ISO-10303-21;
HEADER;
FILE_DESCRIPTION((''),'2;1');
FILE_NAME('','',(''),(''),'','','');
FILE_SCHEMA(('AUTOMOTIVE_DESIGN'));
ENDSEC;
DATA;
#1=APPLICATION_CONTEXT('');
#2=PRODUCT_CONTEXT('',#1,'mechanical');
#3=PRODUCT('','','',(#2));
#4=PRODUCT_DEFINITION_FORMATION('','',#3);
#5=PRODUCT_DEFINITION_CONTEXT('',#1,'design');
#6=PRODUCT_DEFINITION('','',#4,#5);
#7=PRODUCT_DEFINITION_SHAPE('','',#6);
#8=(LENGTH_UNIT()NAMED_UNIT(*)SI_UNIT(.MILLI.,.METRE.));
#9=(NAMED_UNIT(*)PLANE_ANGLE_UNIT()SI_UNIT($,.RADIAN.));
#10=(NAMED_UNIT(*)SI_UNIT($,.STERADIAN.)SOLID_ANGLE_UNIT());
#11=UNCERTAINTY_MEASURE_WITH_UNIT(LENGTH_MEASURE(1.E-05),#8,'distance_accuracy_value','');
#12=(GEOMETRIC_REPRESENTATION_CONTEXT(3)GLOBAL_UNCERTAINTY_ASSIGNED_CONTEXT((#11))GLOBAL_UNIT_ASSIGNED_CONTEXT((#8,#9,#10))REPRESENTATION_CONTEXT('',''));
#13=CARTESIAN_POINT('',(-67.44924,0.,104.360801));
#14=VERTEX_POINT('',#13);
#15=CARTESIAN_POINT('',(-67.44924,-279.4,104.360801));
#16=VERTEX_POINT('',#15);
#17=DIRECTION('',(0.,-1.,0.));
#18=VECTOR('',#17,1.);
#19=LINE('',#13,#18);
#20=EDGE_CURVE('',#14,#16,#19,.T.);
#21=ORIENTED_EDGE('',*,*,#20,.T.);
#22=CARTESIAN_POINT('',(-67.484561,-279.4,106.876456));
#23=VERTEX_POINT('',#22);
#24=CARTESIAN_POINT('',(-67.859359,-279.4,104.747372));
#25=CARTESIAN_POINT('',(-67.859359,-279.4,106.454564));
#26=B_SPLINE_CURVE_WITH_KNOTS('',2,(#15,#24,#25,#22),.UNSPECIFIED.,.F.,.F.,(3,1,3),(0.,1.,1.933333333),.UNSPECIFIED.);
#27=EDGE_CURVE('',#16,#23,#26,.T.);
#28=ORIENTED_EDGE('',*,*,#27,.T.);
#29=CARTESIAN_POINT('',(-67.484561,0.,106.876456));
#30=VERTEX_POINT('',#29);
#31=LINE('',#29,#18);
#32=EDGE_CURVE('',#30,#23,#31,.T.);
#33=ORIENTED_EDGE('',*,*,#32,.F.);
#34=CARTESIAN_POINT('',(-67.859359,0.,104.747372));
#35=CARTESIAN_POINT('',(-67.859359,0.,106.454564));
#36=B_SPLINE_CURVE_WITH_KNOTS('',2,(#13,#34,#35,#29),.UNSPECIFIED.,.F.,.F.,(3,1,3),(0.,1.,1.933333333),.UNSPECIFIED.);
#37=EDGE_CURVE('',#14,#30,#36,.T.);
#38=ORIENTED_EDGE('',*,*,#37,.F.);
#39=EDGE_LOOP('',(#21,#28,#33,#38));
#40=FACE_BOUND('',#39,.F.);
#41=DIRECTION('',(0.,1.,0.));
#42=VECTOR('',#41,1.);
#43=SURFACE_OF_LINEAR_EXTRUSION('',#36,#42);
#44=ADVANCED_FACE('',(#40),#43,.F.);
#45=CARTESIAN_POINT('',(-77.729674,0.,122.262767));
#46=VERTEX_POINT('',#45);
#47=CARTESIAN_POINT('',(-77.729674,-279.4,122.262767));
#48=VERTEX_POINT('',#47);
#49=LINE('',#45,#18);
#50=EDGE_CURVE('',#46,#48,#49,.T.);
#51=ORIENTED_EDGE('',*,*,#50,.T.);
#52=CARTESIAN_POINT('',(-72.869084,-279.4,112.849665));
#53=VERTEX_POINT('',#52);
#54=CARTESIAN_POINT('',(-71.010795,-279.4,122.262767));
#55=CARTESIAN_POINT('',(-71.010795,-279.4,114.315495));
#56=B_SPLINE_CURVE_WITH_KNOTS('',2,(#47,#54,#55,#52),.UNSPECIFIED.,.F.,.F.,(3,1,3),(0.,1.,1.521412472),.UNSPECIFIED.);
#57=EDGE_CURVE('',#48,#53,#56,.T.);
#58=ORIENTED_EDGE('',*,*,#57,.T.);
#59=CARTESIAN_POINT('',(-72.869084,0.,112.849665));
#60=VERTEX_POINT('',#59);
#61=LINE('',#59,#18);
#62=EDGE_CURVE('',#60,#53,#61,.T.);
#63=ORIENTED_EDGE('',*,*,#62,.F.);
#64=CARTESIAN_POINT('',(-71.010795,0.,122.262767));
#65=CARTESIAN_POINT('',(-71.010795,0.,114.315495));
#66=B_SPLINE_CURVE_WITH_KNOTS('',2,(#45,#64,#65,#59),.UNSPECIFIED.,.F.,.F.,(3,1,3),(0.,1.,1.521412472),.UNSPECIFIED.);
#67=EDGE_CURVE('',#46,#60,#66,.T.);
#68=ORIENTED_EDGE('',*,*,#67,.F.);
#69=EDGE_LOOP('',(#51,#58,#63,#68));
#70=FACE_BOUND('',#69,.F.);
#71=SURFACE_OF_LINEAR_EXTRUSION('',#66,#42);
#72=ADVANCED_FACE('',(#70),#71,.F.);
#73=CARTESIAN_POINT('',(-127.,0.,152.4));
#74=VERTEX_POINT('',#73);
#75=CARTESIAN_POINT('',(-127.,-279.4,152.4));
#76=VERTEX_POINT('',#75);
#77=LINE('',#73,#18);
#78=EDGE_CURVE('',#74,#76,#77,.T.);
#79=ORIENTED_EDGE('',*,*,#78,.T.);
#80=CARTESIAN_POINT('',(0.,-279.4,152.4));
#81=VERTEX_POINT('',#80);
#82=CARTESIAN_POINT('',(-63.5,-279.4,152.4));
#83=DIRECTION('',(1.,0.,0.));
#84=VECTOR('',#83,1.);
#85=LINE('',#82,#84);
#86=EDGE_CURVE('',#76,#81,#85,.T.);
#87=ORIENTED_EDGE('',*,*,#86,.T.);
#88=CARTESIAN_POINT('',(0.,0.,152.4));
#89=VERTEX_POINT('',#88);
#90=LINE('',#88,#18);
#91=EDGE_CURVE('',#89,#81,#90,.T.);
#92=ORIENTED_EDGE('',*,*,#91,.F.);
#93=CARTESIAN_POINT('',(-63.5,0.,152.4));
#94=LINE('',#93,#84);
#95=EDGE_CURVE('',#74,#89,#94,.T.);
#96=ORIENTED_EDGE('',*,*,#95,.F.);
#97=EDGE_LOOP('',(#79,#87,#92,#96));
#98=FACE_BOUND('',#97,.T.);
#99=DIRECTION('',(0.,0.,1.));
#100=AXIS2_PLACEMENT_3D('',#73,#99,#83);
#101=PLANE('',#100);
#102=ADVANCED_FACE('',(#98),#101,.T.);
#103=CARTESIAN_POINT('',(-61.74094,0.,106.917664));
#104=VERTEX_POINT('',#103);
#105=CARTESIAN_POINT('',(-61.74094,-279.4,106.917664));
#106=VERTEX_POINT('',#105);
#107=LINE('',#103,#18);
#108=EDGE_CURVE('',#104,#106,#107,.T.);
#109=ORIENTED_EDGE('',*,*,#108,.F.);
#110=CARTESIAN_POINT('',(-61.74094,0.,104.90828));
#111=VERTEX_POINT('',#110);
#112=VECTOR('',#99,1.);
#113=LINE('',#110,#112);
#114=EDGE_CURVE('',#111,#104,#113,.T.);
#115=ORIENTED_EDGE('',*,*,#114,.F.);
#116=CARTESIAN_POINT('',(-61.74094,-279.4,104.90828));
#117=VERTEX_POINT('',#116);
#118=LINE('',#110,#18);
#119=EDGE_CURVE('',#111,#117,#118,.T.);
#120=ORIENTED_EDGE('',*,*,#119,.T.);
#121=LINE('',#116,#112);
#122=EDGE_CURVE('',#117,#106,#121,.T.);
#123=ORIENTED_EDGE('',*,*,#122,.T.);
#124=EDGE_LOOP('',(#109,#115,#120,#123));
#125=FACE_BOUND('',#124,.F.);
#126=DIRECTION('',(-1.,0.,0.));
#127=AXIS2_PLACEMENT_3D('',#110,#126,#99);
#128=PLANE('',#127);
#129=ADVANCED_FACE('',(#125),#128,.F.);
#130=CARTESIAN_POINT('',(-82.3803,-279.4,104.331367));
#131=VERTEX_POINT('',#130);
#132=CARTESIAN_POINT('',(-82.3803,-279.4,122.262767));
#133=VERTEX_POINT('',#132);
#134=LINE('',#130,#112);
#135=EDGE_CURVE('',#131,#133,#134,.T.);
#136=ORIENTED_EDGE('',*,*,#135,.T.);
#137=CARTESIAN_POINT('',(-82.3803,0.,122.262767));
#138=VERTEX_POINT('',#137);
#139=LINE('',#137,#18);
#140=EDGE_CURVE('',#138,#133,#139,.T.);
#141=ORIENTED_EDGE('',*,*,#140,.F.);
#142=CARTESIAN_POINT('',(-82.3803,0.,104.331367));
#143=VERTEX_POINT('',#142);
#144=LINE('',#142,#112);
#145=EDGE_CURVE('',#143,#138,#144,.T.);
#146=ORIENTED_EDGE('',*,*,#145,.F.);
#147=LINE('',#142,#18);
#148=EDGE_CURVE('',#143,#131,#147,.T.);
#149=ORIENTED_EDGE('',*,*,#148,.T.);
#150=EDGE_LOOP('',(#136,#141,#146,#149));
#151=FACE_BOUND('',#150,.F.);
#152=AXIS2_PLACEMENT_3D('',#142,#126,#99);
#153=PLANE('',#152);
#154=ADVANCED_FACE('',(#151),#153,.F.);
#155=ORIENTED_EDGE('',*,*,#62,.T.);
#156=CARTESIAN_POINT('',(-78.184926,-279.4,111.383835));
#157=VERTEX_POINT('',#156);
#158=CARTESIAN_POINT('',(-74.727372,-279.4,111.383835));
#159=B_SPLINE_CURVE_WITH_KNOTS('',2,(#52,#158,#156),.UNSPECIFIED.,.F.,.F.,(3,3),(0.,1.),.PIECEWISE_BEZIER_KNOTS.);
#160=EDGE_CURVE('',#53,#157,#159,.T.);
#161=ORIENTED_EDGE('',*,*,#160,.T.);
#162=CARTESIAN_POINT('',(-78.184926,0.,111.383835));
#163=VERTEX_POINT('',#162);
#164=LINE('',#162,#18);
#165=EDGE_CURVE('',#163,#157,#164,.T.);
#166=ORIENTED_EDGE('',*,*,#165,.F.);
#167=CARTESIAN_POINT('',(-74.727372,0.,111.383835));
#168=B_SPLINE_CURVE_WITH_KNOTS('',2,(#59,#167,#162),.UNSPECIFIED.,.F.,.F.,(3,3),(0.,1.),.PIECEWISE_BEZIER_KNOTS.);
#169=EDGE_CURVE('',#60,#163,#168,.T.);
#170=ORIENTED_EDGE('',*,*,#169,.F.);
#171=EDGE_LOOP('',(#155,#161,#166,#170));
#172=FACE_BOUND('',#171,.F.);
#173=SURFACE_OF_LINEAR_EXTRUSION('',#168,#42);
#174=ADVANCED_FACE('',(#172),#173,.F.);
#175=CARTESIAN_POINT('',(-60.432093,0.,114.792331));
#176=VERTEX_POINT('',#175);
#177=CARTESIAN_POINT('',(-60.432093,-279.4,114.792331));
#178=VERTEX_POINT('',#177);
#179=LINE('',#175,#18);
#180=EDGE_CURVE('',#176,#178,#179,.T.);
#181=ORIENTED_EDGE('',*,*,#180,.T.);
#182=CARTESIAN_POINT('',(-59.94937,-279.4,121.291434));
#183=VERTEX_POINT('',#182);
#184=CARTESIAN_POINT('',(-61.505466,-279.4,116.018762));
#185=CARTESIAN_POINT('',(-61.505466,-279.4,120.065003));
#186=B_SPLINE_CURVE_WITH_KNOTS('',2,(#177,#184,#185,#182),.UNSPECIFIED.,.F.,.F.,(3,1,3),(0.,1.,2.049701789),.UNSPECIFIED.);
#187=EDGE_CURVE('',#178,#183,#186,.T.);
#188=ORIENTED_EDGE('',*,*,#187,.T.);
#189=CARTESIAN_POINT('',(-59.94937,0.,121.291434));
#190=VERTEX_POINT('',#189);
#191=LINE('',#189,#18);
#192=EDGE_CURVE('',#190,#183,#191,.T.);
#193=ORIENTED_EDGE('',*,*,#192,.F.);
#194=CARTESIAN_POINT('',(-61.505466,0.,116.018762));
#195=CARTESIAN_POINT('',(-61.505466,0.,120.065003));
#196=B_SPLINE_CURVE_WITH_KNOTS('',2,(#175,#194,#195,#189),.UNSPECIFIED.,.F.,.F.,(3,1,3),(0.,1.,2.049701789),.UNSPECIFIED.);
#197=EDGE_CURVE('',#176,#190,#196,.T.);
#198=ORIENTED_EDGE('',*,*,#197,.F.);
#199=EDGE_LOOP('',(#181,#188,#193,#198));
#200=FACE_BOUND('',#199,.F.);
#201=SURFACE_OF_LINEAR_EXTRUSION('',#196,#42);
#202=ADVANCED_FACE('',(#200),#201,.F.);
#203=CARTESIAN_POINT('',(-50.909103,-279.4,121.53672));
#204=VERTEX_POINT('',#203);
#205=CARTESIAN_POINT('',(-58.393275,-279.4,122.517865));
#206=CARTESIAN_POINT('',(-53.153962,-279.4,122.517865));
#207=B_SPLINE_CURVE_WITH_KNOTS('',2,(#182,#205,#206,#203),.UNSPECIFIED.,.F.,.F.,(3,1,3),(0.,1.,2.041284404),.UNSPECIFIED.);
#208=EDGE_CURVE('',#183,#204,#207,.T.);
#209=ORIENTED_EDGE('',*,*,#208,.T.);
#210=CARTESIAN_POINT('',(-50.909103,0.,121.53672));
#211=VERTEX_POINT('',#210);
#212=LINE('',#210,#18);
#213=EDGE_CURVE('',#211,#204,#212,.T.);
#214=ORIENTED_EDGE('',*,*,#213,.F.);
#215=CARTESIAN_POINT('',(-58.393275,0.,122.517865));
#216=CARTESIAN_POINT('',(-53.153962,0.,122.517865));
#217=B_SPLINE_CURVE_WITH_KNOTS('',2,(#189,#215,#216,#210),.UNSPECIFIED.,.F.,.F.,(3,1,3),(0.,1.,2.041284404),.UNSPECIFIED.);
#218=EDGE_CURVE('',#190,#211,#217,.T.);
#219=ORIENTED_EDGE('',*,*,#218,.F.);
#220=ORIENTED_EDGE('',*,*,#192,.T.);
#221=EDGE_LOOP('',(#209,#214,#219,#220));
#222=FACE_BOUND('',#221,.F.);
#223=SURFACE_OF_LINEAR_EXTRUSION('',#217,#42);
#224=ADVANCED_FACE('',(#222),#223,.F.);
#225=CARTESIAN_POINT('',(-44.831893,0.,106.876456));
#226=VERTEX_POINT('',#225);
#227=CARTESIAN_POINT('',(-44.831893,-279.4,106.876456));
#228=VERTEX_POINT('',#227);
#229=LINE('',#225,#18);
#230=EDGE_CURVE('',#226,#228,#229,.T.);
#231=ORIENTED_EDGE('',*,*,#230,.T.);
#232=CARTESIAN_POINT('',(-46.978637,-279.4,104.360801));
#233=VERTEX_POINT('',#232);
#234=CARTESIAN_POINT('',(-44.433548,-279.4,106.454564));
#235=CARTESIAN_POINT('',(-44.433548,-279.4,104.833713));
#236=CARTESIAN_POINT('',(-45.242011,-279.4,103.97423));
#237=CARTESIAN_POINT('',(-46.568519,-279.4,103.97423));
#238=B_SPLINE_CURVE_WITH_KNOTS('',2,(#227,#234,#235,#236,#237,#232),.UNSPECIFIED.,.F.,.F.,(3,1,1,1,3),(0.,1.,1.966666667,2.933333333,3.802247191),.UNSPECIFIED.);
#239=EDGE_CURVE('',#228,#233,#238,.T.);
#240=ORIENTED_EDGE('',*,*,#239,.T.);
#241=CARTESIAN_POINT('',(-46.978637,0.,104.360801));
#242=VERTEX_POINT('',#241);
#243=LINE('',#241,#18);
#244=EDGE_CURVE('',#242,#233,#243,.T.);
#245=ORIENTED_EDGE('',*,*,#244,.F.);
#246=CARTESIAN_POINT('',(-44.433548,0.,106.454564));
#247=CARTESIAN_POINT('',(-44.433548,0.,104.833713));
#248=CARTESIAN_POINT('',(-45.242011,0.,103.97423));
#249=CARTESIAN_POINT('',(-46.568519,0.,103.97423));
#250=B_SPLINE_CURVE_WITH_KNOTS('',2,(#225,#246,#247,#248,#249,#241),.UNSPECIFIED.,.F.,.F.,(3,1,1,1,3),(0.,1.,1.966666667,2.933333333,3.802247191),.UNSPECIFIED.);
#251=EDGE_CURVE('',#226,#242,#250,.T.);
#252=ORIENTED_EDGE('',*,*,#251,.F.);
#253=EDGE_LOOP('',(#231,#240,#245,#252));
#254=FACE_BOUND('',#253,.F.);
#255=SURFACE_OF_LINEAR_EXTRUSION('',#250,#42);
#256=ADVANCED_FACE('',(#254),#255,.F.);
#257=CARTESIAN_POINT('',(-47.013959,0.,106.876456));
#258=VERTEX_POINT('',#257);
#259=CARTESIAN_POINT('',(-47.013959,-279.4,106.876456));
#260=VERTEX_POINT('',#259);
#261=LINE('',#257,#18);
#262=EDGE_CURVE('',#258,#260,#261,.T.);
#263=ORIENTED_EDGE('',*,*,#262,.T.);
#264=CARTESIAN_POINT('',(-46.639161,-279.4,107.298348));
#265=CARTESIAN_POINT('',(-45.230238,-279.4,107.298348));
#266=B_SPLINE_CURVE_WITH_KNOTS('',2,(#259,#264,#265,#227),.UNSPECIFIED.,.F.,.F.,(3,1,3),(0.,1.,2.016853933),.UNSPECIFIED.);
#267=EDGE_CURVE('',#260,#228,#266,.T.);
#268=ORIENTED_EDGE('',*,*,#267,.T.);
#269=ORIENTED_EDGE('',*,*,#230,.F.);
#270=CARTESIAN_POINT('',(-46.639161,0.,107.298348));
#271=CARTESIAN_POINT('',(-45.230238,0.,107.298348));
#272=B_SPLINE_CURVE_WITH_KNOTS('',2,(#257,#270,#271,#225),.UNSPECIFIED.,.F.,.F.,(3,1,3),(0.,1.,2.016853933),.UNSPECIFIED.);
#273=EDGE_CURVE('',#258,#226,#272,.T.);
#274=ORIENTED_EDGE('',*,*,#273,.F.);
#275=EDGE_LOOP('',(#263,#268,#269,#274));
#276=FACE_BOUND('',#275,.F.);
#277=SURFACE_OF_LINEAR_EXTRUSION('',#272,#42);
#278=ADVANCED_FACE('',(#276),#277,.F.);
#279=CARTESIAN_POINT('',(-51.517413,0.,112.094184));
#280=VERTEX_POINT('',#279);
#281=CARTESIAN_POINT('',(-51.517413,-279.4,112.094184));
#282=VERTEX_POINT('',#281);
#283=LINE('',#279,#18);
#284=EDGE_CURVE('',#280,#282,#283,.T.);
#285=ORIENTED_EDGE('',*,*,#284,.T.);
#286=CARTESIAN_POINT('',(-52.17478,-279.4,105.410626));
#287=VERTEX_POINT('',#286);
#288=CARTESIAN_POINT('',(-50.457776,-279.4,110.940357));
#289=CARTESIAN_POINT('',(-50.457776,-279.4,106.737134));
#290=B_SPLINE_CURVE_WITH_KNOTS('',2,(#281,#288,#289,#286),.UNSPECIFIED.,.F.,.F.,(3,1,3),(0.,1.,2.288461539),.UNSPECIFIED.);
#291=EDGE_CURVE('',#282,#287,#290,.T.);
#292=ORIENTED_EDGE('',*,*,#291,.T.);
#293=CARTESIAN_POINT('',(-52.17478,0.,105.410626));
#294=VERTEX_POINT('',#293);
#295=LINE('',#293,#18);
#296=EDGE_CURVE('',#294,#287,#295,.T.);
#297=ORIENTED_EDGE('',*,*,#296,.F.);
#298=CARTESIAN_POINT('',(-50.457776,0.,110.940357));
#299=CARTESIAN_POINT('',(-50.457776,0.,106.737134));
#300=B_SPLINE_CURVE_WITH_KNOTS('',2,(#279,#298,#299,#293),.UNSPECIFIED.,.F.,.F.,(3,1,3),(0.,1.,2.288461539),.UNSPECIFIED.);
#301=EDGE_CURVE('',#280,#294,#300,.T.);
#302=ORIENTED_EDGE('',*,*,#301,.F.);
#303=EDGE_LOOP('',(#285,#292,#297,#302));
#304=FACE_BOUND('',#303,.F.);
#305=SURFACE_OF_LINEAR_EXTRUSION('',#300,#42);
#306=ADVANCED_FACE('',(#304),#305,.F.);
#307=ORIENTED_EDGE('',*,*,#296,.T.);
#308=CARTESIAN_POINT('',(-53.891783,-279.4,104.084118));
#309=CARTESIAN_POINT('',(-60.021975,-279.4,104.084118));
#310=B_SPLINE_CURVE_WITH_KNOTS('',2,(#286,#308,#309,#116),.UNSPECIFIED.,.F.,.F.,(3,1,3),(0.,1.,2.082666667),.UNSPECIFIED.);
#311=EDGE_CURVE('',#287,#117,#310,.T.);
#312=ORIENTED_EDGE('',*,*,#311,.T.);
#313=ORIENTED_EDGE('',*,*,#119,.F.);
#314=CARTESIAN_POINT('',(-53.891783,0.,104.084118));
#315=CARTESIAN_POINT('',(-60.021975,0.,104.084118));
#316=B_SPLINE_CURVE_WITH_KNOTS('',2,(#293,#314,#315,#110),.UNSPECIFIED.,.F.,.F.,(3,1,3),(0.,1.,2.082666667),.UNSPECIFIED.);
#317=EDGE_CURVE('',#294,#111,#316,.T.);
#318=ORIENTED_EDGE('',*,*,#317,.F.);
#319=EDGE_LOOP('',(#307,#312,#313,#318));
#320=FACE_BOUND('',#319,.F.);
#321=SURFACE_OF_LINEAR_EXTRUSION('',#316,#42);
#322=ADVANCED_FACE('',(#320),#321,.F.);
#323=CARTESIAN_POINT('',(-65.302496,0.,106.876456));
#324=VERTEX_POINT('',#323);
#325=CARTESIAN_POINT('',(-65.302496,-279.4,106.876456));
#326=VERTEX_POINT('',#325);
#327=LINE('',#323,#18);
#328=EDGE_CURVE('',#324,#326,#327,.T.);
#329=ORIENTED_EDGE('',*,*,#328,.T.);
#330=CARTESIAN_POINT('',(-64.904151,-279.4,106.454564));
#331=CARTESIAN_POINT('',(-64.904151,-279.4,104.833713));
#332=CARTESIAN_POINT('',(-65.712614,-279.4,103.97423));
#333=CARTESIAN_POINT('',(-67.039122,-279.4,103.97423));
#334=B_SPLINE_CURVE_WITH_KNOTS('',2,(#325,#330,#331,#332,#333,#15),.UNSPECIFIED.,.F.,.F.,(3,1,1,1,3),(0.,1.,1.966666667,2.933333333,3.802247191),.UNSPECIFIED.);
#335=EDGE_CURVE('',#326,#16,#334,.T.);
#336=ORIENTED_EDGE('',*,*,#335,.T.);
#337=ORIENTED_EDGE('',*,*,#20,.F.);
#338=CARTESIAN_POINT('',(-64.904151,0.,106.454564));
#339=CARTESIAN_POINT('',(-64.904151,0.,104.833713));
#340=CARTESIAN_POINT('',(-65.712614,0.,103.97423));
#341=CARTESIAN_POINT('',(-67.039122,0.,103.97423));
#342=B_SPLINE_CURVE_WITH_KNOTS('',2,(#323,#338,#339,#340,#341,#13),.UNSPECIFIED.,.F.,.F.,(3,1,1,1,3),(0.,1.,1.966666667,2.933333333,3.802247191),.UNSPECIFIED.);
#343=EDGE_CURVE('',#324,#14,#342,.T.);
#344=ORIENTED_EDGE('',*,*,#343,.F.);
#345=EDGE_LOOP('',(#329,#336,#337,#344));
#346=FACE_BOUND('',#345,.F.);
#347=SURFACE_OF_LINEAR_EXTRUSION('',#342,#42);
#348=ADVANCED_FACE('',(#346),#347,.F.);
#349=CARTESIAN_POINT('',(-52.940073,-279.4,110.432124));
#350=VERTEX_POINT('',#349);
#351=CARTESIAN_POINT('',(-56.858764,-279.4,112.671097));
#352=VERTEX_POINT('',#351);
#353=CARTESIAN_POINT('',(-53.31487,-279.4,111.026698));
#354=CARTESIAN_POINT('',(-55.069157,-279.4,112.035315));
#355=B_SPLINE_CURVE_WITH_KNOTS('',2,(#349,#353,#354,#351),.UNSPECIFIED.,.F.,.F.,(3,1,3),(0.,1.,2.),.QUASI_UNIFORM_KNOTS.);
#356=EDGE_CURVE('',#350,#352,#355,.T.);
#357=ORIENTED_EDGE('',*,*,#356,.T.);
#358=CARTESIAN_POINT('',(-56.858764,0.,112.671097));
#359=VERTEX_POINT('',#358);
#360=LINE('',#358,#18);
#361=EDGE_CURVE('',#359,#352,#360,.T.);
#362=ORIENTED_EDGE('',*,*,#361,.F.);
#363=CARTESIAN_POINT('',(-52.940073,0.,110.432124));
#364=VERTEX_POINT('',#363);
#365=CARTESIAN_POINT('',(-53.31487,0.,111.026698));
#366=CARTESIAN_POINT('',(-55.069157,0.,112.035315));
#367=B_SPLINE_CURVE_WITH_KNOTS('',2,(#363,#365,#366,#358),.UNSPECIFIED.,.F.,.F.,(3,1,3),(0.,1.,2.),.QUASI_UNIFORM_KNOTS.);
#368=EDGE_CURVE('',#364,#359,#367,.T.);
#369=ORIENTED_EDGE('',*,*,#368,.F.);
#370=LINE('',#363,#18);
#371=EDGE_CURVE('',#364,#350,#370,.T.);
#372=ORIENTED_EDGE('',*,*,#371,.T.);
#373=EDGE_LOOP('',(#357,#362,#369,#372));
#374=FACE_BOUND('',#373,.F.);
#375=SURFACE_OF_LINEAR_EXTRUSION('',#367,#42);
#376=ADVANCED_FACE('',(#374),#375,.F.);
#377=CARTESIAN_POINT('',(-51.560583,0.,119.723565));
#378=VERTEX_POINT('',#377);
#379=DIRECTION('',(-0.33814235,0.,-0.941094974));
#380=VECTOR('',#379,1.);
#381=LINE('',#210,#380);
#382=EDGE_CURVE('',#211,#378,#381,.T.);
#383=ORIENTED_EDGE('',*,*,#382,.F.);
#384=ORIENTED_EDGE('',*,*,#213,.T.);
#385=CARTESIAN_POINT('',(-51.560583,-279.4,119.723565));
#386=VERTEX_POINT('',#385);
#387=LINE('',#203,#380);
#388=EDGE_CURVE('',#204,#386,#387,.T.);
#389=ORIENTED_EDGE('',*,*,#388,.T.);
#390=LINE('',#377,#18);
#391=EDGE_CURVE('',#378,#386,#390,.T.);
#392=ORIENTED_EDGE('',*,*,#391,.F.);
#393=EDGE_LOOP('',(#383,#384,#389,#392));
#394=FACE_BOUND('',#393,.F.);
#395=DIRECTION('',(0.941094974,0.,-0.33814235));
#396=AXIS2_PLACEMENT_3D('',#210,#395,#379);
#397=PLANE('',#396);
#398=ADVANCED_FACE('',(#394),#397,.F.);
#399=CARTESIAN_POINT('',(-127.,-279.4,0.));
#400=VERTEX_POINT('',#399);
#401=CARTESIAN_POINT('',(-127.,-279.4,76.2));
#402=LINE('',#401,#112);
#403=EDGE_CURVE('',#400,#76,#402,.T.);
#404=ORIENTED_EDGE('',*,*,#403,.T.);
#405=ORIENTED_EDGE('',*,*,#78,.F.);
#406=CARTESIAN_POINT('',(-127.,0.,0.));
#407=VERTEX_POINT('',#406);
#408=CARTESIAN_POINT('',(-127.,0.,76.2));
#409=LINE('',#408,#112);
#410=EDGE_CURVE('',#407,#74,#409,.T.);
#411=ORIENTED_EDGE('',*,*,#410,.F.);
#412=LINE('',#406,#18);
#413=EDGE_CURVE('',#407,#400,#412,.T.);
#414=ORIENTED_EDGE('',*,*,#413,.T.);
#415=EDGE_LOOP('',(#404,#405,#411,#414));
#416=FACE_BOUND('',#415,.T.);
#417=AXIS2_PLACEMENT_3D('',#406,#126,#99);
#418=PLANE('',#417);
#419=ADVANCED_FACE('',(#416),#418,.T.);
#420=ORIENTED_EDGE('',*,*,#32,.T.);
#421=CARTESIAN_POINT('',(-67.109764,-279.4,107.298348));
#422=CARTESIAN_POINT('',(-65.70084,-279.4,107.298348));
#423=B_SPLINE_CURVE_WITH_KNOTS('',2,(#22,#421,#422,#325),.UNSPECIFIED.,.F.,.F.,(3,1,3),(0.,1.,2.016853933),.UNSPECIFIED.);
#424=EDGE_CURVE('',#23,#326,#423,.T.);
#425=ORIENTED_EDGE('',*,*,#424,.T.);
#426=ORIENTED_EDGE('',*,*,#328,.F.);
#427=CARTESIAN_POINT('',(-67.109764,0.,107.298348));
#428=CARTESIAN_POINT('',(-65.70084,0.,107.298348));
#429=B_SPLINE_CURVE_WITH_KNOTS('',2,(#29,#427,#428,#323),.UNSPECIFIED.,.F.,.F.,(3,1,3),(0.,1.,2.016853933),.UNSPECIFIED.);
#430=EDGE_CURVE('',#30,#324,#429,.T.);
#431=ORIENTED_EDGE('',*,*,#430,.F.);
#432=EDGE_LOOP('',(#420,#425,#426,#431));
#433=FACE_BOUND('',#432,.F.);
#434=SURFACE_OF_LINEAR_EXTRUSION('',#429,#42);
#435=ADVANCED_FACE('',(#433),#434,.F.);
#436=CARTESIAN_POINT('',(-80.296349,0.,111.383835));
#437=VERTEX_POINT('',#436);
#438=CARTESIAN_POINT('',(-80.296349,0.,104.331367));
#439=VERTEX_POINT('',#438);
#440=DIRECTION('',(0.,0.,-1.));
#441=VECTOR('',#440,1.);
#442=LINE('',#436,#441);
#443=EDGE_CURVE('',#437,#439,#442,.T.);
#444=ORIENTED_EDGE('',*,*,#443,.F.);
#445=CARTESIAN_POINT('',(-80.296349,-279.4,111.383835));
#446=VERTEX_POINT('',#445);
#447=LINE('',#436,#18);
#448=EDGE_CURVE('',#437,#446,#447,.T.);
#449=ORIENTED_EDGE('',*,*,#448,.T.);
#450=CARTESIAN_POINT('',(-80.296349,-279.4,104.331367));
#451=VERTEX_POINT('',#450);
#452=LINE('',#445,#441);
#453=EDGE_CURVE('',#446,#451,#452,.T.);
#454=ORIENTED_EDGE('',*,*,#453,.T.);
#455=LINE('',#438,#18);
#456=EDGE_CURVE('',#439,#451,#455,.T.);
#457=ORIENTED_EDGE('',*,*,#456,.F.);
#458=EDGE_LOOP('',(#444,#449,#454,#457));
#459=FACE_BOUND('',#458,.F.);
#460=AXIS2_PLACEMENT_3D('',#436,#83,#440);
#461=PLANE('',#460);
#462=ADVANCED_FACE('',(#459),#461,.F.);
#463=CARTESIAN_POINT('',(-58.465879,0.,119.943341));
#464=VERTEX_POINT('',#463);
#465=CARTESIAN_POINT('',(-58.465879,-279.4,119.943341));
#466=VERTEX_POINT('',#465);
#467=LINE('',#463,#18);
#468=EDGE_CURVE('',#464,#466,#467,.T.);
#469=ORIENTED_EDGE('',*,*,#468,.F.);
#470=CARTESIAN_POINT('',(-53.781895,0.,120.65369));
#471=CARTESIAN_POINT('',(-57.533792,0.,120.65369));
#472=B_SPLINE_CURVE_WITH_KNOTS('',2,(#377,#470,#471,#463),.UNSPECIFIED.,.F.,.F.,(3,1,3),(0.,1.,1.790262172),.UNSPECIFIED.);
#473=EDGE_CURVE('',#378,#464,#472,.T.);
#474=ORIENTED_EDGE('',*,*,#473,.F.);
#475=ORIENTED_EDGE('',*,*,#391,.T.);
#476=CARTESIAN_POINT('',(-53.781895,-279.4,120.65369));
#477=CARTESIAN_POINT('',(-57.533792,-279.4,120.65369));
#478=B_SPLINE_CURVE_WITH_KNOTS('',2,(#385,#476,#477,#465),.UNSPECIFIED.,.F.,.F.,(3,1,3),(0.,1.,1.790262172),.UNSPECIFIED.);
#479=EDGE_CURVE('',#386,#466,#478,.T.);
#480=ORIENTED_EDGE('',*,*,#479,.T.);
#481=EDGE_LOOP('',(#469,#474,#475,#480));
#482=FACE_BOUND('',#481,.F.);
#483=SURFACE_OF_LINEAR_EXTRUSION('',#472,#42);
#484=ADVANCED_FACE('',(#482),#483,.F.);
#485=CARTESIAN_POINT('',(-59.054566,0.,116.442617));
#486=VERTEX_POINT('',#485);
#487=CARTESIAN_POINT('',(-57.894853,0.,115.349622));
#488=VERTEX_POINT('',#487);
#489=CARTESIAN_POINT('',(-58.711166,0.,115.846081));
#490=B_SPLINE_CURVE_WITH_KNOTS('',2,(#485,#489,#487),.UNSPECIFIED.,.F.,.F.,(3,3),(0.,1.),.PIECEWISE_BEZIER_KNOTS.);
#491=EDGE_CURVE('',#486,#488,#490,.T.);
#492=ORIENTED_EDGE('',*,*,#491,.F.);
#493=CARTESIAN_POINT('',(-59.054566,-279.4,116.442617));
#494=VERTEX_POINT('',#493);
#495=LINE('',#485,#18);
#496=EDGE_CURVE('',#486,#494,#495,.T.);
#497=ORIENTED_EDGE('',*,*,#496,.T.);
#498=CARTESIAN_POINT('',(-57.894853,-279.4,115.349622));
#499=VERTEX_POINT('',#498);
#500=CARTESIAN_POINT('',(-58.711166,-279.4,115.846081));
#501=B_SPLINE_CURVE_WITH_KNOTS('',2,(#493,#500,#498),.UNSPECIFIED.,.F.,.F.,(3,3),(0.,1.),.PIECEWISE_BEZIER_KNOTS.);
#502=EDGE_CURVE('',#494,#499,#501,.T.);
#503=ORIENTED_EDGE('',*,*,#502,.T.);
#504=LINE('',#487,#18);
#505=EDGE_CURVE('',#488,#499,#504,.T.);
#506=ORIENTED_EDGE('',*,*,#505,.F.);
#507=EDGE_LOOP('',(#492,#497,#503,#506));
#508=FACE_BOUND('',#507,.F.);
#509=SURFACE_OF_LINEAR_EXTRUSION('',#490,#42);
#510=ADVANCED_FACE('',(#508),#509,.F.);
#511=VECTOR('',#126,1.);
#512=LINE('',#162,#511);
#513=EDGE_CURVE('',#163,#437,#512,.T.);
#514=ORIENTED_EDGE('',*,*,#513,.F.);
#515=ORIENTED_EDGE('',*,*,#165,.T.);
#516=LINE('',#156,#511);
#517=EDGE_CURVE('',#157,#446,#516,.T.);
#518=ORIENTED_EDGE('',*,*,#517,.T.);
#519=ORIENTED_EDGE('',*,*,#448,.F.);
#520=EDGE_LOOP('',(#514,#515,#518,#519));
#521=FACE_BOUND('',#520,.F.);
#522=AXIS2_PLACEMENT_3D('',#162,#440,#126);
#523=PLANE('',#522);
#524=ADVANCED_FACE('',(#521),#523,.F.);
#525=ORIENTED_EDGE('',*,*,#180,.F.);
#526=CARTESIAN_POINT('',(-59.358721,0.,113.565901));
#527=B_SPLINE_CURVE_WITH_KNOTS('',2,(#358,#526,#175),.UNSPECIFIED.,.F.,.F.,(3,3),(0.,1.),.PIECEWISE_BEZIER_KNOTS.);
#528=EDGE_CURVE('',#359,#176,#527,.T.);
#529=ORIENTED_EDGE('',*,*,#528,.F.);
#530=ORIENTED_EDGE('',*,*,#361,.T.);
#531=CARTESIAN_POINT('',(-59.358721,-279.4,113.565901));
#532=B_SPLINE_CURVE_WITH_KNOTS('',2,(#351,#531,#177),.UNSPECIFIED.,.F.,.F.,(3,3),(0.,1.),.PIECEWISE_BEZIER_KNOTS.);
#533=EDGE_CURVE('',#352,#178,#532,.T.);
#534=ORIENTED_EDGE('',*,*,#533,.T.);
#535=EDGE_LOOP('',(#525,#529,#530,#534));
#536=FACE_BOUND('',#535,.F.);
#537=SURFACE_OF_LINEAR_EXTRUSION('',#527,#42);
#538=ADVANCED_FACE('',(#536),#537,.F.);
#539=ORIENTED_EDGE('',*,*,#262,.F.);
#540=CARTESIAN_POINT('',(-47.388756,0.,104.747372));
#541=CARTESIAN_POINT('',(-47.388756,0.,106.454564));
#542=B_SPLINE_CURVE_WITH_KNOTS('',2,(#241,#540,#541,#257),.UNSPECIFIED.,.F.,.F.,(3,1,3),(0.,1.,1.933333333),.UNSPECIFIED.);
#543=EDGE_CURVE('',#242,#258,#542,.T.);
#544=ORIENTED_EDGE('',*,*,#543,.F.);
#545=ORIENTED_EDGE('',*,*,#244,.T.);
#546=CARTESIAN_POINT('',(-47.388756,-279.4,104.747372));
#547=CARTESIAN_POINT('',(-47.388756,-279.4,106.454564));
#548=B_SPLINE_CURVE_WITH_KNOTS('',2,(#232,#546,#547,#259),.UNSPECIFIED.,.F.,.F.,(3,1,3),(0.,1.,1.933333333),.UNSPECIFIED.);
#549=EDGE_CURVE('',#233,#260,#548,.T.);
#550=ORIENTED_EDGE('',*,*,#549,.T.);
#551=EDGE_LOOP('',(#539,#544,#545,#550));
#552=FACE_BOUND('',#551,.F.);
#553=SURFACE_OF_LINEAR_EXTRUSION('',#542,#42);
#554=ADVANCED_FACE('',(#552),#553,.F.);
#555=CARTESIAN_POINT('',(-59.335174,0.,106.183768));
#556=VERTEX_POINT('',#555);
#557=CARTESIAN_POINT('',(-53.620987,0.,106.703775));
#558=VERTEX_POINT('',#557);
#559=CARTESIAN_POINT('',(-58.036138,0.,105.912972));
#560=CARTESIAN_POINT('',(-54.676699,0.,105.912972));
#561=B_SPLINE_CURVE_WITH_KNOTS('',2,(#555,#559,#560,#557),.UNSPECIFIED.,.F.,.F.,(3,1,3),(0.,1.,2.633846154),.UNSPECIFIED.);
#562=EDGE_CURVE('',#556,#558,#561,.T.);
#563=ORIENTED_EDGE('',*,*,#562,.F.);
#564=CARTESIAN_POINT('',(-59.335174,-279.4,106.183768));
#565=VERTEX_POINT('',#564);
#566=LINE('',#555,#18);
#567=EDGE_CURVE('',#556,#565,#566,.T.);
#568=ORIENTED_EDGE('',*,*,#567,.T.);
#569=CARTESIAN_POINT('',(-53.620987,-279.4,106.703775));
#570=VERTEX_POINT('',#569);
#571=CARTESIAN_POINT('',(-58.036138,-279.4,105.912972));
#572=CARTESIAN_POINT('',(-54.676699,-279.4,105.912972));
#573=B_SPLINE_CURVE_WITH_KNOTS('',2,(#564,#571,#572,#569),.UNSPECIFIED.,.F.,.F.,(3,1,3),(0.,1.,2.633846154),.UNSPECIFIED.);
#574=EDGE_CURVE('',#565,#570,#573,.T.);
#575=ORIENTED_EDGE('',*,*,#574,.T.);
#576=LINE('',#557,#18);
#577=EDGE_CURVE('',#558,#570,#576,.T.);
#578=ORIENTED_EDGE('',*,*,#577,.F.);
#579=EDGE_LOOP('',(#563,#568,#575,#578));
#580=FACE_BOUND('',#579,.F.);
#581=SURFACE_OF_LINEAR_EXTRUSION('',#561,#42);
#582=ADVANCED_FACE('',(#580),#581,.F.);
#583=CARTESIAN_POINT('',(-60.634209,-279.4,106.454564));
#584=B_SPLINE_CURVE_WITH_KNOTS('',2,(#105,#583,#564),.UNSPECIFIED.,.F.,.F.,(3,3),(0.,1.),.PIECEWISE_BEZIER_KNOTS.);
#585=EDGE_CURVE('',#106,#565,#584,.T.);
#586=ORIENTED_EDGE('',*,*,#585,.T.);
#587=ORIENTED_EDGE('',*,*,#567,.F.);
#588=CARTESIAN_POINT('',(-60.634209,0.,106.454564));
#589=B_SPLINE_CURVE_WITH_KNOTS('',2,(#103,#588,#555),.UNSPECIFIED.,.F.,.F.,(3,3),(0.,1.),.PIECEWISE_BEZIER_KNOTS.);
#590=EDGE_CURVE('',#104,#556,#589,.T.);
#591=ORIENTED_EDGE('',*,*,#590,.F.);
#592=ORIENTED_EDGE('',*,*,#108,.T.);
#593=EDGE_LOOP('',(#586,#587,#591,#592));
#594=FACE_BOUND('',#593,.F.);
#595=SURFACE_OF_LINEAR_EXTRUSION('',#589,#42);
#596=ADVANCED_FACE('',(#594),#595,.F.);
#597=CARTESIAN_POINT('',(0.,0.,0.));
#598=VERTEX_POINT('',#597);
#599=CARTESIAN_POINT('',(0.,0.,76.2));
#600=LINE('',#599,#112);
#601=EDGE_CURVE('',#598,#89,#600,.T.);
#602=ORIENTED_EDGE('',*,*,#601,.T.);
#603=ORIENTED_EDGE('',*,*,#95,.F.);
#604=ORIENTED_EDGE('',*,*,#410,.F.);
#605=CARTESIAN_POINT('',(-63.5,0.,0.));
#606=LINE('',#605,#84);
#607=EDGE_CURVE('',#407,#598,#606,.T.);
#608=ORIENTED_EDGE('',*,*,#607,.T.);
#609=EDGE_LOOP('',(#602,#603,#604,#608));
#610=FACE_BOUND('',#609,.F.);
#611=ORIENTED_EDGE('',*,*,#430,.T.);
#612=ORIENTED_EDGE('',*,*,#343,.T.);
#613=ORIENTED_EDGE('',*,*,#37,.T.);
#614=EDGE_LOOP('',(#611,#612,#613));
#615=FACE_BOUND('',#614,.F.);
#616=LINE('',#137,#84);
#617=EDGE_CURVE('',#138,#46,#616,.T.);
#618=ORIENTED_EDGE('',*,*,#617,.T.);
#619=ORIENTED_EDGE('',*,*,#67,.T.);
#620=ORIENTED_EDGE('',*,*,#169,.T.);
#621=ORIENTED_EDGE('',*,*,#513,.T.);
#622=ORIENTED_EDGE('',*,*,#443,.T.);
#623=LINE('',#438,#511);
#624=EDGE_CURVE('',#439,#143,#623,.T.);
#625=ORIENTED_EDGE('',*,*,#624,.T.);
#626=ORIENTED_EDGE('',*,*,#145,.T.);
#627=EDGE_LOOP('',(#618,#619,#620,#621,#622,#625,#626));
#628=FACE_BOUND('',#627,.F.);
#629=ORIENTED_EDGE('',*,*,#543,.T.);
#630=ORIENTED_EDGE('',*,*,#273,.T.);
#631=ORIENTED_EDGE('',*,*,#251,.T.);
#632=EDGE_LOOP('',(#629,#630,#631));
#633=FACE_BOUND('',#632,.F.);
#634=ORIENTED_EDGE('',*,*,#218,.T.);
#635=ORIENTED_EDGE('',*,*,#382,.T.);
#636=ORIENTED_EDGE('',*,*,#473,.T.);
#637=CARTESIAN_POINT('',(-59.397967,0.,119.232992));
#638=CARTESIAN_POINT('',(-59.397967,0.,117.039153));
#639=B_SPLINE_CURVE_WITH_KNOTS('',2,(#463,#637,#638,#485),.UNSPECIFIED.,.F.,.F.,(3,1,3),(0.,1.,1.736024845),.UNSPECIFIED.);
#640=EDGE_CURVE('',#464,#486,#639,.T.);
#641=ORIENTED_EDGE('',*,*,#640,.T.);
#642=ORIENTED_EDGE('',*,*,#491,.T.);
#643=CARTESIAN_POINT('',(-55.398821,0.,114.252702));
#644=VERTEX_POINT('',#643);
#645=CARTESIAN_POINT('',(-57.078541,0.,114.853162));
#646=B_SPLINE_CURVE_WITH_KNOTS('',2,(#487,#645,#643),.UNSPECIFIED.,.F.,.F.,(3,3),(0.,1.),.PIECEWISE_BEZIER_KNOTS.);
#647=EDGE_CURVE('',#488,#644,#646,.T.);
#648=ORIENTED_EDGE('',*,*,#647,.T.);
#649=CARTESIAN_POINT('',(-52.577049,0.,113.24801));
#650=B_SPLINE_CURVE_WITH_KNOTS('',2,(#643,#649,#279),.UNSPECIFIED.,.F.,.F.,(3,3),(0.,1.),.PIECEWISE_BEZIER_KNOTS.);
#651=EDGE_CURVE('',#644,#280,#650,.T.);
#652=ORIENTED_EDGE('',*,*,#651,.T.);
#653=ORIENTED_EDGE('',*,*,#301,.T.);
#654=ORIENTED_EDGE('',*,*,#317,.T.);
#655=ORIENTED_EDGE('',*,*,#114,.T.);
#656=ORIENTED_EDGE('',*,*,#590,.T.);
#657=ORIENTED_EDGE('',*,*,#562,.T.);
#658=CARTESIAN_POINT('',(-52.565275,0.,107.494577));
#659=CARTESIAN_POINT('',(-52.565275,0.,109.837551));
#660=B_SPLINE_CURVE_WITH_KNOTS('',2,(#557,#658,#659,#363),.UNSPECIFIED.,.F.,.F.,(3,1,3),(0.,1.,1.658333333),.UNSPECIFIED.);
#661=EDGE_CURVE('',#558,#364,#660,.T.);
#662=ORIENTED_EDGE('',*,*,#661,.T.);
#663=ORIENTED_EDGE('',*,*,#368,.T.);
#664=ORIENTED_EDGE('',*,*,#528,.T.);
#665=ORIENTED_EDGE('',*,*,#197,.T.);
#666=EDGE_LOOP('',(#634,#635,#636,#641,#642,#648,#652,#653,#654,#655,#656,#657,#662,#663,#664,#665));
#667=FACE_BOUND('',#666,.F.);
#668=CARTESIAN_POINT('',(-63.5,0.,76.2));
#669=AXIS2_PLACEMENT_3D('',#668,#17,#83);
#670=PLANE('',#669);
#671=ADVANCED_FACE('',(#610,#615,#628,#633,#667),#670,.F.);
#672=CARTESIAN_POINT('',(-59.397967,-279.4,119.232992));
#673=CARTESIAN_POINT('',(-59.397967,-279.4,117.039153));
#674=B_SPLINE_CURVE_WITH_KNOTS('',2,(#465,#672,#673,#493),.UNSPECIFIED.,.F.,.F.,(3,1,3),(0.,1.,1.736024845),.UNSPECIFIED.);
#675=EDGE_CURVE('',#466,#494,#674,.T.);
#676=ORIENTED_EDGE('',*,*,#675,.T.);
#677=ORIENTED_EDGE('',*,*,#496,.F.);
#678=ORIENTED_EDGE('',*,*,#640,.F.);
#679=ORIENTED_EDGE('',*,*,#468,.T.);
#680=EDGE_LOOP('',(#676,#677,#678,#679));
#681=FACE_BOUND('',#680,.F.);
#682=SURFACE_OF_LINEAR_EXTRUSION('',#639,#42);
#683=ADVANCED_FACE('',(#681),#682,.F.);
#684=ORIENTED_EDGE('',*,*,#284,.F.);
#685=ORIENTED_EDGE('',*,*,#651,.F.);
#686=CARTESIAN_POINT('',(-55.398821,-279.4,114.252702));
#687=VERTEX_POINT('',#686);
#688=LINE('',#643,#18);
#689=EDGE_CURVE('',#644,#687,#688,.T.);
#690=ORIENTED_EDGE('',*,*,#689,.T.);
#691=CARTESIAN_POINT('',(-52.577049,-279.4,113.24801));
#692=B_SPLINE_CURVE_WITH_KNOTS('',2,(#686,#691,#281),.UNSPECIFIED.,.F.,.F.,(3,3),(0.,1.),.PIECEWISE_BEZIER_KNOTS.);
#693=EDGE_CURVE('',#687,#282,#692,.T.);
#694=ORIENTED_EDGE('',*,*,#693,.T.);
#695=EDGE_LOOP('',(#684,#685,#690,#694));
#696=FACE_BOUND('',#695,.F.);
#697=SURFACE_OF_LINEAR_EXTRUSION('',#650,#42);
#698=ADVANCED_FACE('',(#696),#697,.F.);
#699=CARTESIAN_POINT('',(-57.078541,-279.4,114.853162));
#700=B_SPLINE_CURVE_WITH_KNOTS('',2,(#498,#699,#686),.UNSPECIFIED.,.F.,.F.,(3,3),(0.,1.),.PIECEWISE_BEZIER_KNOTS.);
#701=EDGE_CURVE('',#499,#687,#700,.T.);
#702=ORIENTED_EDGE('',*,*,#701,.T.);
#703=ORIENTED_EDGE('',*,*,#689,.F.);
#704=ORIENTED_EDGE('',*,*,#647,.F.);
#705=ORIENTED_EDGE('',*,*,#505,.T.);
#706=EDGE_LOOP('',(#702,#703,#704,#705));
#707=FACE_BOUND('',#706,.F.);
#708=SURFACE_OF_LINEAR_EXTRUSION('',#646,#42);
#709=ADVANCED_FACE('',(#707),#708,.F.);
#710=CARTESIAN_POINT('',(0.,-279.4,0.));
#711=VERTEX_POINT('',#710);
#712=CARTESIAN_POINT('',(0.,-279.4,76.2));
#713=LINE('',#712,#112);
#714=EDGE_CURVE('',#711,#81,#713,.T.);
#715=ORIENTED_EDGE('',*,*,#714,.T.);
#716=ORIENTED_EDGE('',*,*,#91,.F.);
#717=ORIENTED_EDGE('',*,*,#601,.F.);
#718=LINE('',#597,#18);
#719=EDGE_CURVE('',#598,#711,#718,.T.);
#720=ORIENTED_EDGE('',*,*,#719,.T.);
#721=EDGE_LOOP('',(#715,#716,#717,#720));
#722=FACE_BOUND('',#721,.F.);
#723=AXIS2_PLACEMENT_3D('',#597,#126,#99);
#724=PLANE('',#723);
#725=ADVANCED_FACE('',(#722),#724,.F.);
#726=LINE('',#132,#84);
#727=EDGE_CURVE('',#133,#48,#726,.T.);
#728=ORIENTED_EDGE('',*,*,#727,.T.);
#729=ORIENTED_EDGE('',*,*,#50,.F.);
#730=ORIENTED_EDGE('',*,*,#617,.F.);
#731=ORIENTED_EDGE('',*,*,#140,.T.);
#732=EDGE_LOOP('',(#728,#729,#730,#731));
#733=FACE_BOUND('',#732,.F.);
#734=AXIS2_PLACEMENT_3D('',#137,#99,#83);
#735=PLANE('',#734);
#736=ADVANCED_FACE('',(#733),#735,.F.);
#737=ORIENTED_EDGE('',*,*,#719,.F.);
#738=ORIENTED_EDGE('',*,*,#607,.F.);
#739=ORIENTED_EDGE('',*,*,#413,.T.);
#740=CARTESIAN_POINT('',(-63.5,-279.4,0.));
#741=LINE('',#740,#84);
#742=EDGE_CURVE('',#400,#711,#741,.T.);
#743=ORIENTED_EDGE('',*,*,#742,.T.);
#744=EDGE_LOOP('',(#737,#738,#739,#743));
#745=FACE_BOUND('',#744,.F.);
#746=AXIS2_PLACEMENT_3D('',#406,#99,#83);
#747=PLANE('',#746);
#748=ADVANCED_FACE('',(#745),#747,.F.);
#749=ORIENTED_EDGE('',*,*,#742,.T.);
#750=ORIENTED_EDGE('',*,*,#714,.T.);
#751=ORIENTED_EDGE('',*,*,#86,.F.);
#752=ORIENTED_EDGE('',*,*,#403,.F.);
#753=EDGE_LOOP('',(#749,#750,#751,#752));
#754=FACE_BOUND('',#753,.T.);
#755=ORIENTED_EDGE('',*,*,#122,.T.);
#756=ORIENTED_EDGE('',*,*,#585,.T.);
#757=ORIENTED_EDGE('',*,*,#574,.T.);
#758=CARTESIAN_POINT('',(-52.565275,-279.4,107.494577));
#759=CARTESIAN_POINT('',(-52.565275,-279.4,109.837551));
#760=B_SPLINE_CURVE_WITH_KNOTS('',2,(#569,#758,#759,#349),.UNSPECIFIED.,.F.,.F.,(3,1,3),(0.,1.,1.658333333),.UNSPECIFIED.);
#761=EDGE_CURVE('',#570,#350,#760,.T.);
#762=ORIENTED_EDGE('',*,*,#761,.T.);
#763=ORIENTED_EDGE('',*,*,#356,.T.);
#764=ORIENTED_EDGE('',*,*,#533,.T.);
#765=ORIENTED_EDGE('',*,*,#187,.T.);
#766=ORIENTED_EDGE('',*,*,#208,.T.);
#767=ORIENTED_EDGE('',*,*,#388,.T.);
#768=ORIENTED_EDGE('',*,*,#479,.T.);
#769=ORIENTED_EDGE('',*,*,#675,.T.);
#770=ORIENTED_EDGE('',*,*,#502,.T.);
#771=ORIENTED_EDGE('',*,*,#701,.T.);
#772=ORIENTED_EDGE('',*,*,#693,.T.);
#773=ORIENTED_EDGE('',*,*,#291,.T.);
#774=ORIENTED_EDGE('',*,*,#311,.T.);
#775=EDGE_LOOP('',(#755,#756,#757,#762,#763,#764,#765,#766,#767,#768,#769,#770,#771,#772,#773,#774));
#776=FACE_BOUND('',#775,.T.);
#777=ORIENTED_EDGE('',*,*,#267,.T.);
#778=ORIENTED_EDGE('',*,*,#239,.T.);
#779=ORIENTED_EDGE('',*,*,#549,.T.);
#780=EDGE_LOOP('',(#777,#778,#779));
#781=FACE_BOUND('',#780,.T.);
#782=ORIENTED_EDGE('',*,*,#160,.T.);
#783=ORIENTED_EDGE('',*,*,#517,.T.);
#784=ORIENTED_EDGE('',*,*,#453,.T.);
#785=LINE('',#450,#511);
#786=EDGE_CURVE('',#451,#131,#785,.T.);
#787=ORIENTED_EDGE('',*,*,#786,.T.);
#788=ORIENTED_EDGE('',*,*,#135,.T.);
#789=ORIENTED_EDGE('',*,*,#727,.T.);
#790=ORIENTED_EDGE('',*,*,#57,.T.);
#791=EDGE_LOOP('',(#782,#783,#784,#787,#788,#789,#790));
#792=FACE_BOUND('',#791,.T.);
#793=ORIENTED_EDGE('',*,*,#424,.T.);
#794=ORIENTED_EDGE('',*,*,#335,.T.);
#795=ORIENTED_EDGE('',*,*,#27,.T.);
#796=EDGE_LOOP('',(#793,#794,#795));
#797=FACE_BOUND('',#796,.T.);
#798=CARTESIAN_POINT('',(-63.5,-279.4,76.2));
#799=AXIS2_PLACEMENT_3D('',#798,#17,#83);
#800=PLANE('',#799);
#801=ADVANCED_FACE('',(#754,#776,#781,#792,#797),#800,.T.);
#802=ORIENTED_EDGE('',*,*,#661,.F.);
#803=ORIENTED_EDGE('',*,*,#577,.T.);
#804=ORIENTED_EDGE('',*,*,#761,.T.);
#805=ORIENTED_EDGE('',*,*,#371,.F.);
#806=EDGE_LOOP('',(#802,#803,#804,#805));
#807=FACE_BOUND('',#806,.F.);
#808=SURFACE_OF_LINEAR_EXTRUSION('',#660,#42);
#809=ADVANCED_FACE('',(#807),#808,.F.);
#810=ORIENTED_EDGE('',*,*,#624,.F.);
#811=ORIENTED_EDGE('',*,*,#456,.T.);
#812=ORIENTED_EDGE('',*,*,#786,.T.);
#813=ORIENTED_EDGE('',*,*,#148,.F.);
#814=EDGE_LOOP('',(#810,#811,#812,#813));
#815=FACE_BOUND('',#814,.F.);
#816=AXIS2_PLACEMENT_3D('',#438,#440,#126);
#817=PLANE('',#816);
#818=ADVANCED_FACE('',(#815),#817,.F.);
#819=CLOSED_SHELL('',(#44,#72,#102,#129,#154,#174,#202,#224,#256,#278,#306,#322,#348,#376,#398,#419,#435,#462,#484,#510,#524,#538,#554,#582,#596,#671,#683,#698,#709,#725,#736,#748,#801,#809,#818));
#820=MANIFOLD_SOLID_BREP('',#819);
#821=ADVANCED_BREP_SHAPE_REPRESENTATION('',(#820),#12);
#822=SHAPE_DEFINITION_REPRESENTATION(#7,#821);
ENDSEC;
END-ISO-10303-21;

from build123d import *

# Parameters (mm, degrees)
F0_W     = 127
F0_H     = 152.4
F1_DEPTH = 279.4


with BuildPart() as f1:
    # F0 (on Front) → F1 (new body)
    with BuildSketch(Plane.XZ):
        with Locations((-63.5, 76.2)):
            Rectangle(F0_W, F0_H)
        with BuildLine():
            add(Edge.make_bspline(
                [(-77.7296743618, 122.2627671523), (-71.0107954947, 122.2627671523), (-71.0107954947, 117.0391527994)],
                knots=[0, 0, 0, 1, 1, 1], degree=2))
            add(Edge.make_bspline(
                [(-71.0107954947, 117.0391527994), (-71.0107954947, 114.3154951278), (-72.8690835458, 112.8496649544)],
                knots=[0, 0, 0, 1, 1, 1], degree=2))
            add(Edge.make_bspline(
                [(-72.8690835458, 112.8496649544), (-74.727371597, 111.383834781), (-78.1849255, 111.383834781)],
                knots=[0, 0, 0, 1, 1, 1], degree=2))
            Line((-78.1849255, 111.383834781), (-80.2963488823, 111.383834781))
            Line((-80.2963488823, 111.383834781), (-80.2963488823, 104.3313667178))
            Line((-80.2963488823, 104.3313667178), (-82.3803002131, 104.3313667178))
            Line((-82.3803002131, 104.3313667178), (-82.3803002131, 122.2627671523))
            Line((-82.3803002131, 122.2627671523), (-77.7296743618, 122.2627671523))
        make_face(mode=Mode.SUBTRACT)
        with BuildLine():
            add(Edge.make_bspline(
                [(-67.4492402541, 104.3608010586), (-67.8593587363, 104.7473720682), (-67.8593587363, 105.6304022932)],
                knots=[0, 0, 0, 1, 1, 1], degree=2))
            add(Edge.make_bspline(
                [(-67.8593587363, 105.6304022932), (-67.8593587363, 106.4545638365), (-67.4845614631, 106.876456055)],
                knots=[0, 0, 0, 1, 1, 1], degree=2))
            add(Edge.make_bspline(
                [(-67.4845614631, 106.876456055), (-67.1097641898, 107.2983482736), (-66.4111891674, 107.2983482736)],
                knots=[0, 0, 0, 1, 1, 1], degree=2))
            add(Edge.make_bspline(
                [(-66.4111891674, 107.2983482736), (-65.7008404087, 107.2983482736), (-65.3024956628, 106.876456055)],
                knots=[0, 0, 0, 1, 1, 1], degree=2))
            add(Edge.make_bspline(
                [(-65.3024956628, 106.876456055), (-64.9041509168, 106.4545638365), (-64.9041509168, 105.6304022932)],
                knots=[0, 0, 0, 1, 1, 1], degree=2))
            add(Edge.make_bspline(
                [(-64.9041509168, 105.6304022932), (-64.9041509168, 104.8337128013), (-65.3083825309, 104.4039714252)],
                knots=[0, 0, 0, 1, 1, 1], degree=2))
            add(Edge.make_bspline(
                [(-65.3083825309, 104.4039714252), (-65.712614145, 103.9742300491), (-66.4111891674, 103.9742300491)],
                knots=[0, 0, 0, 1, 1, 1], degree=2))
            add(Edge.make_bspline(
                [(-66.4111891674, 103.9742300491), (-67.0391217718, 103.9742300491), (-67.4492402541, 104.3608010586)],
                knots=[0, 0, 0, 1, 1, 1], degree=2))
        make_face(mode=Mode.SUBTRACT)
        with BuildLine():
            add(Edge.make_bspline(
                [(-51.5174127067, 112.0941835397), (-50.4577764368, 110.9403573791), (-50.4577764368, 109.1036545113)],
                knots=[0, 0, 0, 1, 1, 1], degree=2))
            add(Edge.make_bspline(
                [(-50.4577764368, 109.1036545113), (-50.4577764368, 106.7371335084), (-52.174779652, 105.4106258816)],
                knots=[0, 0, 0, 1, 1, 1], degree=2))
            add(Edge.make_bspline(
                [(-52.174779652, 105.4106258816), (-53.8917828671, 104.0841182548), (-56.8352169503, 104.0841182548)],
                knots=[0, 0, 0, 1, 1, 1], degree=2))
            add(Edge.make_bspline(
                [(-56.8352169503, 104.0841182548), (-60.0219749176, 104.0841182548), (-61.7409404222, 104.9082797981)],
                knots=[0, 0, 0, 1, 1, 1], degree=2))
            Line((-61.7409404222, 104.9082797981), (-61.7409404222, 106.9176641322))
            add(Edge.make_bspline(
                [(-61.7409404222, 106.9176641322), (-60.6342092069, 106.4545638365), (-59.3351736316, 106.1837679008)],
                knots=[0, 0, 0, 1, 1, 1], degree=2))
            add(Edge.make_bspline(
                [(-59.3351736316, 106.1837679008), (-58.0361380562, 105.9129719652), (-56.7606499535, 105.9129719652)],
                knots=[0, 0, 0, 1, 1, 1], degree=2))
            add(Edge.make_bspline(
                [(-56.7606499535, 105.9129719652), (-54.6766986226, 105.9129719652), (-53.6209869315, 106.7037745888)],
                knots=[0, 0, 0, 1, 1, 1], degree=2))
            add(Edge.make_bspline(
                [(-53.6209869315, 106.7037745888), (-52.5652752403, 107.4945772125), (-52.5652752403, 108.9074255724)],
                knots=[0, 0, 0, 1, 1, 1], degree=2))
            add(Edge.make_bspline(
                [(-52.5652752403, 108.9074255724), (-52.5652752403, 109.8375507427), (-52.9400725136, 110.4321244275)],
                knots=[0, 0, 0, 1, 1, 1], degree=2))
            add(Edge.make_bspline(
                [(-52.9400725136, 110.4321244275), (-53.3148697868, 111.0266981123), (-54.1920131436, 111.5310064852)],
                knots=[0, 0, 0, 1, 1, 1], degree=2))
            add(Edge.make_bspline(
                [(-54.1920131436, 111.5310064852), (-55.0691565004, 112.0353148581), (-56.8587644229, 112.67109662)],
                knots=[0, 0, 0, 1, 1, 1], degree=2))
            add(Edge.make_bspline(
                [(-56.8587644229, 112.67109662), (-59.3587211042, 113.5659005813), (-60.4320933999, 114.7923314493)],
                knots=[0, 0, 0, 1, 1, 1], degree=2))
            add(Edge.make_bspline(
                [(-60.4320933999, 114.7923314493), (-61.5054656955, 116.0187623173), (-61.5054656955, 117.9928254423)],
                knots=[0, 0, 0, 1, 1, 1], degree=2))
            add(Edge.make_bspline(
                [(-61.5054656955, 117.9928254423), (-61.5054656955, 120.0650030369), (-59.9493702102, 121.2914339048)],
                knots=[0, 0, 0, 1, 1, 1], degree=2))
            add(Edge.make_bspline(
                [(-59.9493702102, 121.2914339048), (-58.3932747249, 122.5178647728), (-55.8266002045, 122.5178647728)],
                knots=[0, 0, 0, 1, 1, 1], degree=2))
            add(Edge.make_bspline(
                [(-55.8266002045, 122.5178647728), (-53.153962057, 122.5178647728), (-50.9091029962, 121.5367200784)],
                knots=[0, 0, 0, 1, 1, 1], degree=2))
            Line((-50.9091029962, 121.5367200784), (-51.5605830733, 119.7235646832))
            add(Edge.make_bspline(
                [(-51.5605830733, 119.7235646832), (-53.7818946614, 120.6536898535), (-55.8776197286, 120.6536898535)],
                knots=[0, 0, 0, 1, 1, 1], degree=2))
            add(Edge.make_bspline(
                [(-55.8776197286, 120.6536898535), (-57.5337919727, 120.6536898535), (-58.4658794323, 119.9433410948)],
                knots=[0, 0, 0, 1, 1, 1], degree=2))
            add(Edge.make_bspline(
                [(-58.4658794323, 119.9433410948), (-59.397966892, 119.232992336), (-59.397966892, 117.9692779697)],
                knots=[0, 0, 0, 1, 1, 1], degree=2))
            add(Edge.make_bspline(
                [(-59.397966892, 117.9692779697), (-59.397966892, 117.0391527994), (-59.054566249, 116.4426168252)],
                knots=[0, 0, 0, 1, 1, 1], degree=2))
            add(Edge.make_bspline(
                [(-59.054566249, 116.4426168252), (-58.7111656059, 115.846080851), (-57.8948532202, 115.3496216357)],
                knots=[0, 0, 0, 1, 1, 1], degree=2))
            add(Edge.make_bspline(
                [(-57.8948532202, 115.3496216357), (-57.0785408345, 114.8531624203), (-55.3988211177, 114.2527018674)],
                knots=[0, 0, 0, 1, 1, 1], degree=2))
            add(Edge.make_bspline(
                [(-55.3988211177, 114.2527018674), (-52.5770489767, 113.2480097003), (-51.5174127067, 112.0941835397)],
                knots=[0, 0, 0, 1, 1, 1], degree=2))
        make_face(mode=Mode.SUBTRACT)
        with BuildLine():
            add(Edge.make_bspline(
                [(-46.9786373505, 104.3608010586), (-47.3887558328, 104.7473720682), (-47.3887558328, 105.6304022932)],
                knots=[0, 0, 0, 1, 1, 1], degree=2))
            add(Edge.make_bspline(
                [(-47.3887558328, 105.6304022932), (-47.3887558328, 106.4545638365), (-47.0139585595, 106.876456055)],
                knots=[0, 0, 0, 1, 1, 1], degree=2))
            add(Edge.make_bspline(
                [(-47.0139585595, 106.876456055), (-46.6391612863, 107.2983482736), (-45.9405862639, 107.2983482736)],
                knots=[0, 0, 0, 1, 1, 1], degree=2))
            add(Edge.make_bspline(
                [(-45.9405862639, 107.2983482736), (-45.2302375052, 107.2983482736), (-44.8318927592, 106.876456055)],
                knots=[0, 0, 0, 1, 1, 1], degree=2))
            add(Edge.make_bspline(
                [(-44.8318927592, 106.876456055), (-44.4335480133, 106.4545638365), (-44.4335480133, 105.6304022932)],
                knots=[0, 0, 0, 1, 1, 1], degree=2))
            add(Edge.make_bspline(
                [(-44.4335480133, 105.6304022932), (-44.4335480133, 104.8337128013), (-44.8377796274, 104.4039714252)],
                knots=[0, 0, 0, 1, 1, 1], degree=2))
            add(Edge.make_bspline(
                [(-44.8377796274, 104.4039714252), (-45.2420112415, 103.9742300491), (-45.9405862639, 103.9742300491)],
                knots=[0, 0, 0, 1, 1, 1], degree=2))
            add(Edge.make_bspline(
                [(-45.9405862639, 103.9742300491), (-46.5685188683, 103.9742300491), (-46.9786373505, 104.3608010586)],
                knots=[0, 0, 0, 1, 1, 1], degree=2))
        make_face(mode=Mode.SUBTRACT)
    extrude(amount=F1_DEPTH)


solid = f1.part
